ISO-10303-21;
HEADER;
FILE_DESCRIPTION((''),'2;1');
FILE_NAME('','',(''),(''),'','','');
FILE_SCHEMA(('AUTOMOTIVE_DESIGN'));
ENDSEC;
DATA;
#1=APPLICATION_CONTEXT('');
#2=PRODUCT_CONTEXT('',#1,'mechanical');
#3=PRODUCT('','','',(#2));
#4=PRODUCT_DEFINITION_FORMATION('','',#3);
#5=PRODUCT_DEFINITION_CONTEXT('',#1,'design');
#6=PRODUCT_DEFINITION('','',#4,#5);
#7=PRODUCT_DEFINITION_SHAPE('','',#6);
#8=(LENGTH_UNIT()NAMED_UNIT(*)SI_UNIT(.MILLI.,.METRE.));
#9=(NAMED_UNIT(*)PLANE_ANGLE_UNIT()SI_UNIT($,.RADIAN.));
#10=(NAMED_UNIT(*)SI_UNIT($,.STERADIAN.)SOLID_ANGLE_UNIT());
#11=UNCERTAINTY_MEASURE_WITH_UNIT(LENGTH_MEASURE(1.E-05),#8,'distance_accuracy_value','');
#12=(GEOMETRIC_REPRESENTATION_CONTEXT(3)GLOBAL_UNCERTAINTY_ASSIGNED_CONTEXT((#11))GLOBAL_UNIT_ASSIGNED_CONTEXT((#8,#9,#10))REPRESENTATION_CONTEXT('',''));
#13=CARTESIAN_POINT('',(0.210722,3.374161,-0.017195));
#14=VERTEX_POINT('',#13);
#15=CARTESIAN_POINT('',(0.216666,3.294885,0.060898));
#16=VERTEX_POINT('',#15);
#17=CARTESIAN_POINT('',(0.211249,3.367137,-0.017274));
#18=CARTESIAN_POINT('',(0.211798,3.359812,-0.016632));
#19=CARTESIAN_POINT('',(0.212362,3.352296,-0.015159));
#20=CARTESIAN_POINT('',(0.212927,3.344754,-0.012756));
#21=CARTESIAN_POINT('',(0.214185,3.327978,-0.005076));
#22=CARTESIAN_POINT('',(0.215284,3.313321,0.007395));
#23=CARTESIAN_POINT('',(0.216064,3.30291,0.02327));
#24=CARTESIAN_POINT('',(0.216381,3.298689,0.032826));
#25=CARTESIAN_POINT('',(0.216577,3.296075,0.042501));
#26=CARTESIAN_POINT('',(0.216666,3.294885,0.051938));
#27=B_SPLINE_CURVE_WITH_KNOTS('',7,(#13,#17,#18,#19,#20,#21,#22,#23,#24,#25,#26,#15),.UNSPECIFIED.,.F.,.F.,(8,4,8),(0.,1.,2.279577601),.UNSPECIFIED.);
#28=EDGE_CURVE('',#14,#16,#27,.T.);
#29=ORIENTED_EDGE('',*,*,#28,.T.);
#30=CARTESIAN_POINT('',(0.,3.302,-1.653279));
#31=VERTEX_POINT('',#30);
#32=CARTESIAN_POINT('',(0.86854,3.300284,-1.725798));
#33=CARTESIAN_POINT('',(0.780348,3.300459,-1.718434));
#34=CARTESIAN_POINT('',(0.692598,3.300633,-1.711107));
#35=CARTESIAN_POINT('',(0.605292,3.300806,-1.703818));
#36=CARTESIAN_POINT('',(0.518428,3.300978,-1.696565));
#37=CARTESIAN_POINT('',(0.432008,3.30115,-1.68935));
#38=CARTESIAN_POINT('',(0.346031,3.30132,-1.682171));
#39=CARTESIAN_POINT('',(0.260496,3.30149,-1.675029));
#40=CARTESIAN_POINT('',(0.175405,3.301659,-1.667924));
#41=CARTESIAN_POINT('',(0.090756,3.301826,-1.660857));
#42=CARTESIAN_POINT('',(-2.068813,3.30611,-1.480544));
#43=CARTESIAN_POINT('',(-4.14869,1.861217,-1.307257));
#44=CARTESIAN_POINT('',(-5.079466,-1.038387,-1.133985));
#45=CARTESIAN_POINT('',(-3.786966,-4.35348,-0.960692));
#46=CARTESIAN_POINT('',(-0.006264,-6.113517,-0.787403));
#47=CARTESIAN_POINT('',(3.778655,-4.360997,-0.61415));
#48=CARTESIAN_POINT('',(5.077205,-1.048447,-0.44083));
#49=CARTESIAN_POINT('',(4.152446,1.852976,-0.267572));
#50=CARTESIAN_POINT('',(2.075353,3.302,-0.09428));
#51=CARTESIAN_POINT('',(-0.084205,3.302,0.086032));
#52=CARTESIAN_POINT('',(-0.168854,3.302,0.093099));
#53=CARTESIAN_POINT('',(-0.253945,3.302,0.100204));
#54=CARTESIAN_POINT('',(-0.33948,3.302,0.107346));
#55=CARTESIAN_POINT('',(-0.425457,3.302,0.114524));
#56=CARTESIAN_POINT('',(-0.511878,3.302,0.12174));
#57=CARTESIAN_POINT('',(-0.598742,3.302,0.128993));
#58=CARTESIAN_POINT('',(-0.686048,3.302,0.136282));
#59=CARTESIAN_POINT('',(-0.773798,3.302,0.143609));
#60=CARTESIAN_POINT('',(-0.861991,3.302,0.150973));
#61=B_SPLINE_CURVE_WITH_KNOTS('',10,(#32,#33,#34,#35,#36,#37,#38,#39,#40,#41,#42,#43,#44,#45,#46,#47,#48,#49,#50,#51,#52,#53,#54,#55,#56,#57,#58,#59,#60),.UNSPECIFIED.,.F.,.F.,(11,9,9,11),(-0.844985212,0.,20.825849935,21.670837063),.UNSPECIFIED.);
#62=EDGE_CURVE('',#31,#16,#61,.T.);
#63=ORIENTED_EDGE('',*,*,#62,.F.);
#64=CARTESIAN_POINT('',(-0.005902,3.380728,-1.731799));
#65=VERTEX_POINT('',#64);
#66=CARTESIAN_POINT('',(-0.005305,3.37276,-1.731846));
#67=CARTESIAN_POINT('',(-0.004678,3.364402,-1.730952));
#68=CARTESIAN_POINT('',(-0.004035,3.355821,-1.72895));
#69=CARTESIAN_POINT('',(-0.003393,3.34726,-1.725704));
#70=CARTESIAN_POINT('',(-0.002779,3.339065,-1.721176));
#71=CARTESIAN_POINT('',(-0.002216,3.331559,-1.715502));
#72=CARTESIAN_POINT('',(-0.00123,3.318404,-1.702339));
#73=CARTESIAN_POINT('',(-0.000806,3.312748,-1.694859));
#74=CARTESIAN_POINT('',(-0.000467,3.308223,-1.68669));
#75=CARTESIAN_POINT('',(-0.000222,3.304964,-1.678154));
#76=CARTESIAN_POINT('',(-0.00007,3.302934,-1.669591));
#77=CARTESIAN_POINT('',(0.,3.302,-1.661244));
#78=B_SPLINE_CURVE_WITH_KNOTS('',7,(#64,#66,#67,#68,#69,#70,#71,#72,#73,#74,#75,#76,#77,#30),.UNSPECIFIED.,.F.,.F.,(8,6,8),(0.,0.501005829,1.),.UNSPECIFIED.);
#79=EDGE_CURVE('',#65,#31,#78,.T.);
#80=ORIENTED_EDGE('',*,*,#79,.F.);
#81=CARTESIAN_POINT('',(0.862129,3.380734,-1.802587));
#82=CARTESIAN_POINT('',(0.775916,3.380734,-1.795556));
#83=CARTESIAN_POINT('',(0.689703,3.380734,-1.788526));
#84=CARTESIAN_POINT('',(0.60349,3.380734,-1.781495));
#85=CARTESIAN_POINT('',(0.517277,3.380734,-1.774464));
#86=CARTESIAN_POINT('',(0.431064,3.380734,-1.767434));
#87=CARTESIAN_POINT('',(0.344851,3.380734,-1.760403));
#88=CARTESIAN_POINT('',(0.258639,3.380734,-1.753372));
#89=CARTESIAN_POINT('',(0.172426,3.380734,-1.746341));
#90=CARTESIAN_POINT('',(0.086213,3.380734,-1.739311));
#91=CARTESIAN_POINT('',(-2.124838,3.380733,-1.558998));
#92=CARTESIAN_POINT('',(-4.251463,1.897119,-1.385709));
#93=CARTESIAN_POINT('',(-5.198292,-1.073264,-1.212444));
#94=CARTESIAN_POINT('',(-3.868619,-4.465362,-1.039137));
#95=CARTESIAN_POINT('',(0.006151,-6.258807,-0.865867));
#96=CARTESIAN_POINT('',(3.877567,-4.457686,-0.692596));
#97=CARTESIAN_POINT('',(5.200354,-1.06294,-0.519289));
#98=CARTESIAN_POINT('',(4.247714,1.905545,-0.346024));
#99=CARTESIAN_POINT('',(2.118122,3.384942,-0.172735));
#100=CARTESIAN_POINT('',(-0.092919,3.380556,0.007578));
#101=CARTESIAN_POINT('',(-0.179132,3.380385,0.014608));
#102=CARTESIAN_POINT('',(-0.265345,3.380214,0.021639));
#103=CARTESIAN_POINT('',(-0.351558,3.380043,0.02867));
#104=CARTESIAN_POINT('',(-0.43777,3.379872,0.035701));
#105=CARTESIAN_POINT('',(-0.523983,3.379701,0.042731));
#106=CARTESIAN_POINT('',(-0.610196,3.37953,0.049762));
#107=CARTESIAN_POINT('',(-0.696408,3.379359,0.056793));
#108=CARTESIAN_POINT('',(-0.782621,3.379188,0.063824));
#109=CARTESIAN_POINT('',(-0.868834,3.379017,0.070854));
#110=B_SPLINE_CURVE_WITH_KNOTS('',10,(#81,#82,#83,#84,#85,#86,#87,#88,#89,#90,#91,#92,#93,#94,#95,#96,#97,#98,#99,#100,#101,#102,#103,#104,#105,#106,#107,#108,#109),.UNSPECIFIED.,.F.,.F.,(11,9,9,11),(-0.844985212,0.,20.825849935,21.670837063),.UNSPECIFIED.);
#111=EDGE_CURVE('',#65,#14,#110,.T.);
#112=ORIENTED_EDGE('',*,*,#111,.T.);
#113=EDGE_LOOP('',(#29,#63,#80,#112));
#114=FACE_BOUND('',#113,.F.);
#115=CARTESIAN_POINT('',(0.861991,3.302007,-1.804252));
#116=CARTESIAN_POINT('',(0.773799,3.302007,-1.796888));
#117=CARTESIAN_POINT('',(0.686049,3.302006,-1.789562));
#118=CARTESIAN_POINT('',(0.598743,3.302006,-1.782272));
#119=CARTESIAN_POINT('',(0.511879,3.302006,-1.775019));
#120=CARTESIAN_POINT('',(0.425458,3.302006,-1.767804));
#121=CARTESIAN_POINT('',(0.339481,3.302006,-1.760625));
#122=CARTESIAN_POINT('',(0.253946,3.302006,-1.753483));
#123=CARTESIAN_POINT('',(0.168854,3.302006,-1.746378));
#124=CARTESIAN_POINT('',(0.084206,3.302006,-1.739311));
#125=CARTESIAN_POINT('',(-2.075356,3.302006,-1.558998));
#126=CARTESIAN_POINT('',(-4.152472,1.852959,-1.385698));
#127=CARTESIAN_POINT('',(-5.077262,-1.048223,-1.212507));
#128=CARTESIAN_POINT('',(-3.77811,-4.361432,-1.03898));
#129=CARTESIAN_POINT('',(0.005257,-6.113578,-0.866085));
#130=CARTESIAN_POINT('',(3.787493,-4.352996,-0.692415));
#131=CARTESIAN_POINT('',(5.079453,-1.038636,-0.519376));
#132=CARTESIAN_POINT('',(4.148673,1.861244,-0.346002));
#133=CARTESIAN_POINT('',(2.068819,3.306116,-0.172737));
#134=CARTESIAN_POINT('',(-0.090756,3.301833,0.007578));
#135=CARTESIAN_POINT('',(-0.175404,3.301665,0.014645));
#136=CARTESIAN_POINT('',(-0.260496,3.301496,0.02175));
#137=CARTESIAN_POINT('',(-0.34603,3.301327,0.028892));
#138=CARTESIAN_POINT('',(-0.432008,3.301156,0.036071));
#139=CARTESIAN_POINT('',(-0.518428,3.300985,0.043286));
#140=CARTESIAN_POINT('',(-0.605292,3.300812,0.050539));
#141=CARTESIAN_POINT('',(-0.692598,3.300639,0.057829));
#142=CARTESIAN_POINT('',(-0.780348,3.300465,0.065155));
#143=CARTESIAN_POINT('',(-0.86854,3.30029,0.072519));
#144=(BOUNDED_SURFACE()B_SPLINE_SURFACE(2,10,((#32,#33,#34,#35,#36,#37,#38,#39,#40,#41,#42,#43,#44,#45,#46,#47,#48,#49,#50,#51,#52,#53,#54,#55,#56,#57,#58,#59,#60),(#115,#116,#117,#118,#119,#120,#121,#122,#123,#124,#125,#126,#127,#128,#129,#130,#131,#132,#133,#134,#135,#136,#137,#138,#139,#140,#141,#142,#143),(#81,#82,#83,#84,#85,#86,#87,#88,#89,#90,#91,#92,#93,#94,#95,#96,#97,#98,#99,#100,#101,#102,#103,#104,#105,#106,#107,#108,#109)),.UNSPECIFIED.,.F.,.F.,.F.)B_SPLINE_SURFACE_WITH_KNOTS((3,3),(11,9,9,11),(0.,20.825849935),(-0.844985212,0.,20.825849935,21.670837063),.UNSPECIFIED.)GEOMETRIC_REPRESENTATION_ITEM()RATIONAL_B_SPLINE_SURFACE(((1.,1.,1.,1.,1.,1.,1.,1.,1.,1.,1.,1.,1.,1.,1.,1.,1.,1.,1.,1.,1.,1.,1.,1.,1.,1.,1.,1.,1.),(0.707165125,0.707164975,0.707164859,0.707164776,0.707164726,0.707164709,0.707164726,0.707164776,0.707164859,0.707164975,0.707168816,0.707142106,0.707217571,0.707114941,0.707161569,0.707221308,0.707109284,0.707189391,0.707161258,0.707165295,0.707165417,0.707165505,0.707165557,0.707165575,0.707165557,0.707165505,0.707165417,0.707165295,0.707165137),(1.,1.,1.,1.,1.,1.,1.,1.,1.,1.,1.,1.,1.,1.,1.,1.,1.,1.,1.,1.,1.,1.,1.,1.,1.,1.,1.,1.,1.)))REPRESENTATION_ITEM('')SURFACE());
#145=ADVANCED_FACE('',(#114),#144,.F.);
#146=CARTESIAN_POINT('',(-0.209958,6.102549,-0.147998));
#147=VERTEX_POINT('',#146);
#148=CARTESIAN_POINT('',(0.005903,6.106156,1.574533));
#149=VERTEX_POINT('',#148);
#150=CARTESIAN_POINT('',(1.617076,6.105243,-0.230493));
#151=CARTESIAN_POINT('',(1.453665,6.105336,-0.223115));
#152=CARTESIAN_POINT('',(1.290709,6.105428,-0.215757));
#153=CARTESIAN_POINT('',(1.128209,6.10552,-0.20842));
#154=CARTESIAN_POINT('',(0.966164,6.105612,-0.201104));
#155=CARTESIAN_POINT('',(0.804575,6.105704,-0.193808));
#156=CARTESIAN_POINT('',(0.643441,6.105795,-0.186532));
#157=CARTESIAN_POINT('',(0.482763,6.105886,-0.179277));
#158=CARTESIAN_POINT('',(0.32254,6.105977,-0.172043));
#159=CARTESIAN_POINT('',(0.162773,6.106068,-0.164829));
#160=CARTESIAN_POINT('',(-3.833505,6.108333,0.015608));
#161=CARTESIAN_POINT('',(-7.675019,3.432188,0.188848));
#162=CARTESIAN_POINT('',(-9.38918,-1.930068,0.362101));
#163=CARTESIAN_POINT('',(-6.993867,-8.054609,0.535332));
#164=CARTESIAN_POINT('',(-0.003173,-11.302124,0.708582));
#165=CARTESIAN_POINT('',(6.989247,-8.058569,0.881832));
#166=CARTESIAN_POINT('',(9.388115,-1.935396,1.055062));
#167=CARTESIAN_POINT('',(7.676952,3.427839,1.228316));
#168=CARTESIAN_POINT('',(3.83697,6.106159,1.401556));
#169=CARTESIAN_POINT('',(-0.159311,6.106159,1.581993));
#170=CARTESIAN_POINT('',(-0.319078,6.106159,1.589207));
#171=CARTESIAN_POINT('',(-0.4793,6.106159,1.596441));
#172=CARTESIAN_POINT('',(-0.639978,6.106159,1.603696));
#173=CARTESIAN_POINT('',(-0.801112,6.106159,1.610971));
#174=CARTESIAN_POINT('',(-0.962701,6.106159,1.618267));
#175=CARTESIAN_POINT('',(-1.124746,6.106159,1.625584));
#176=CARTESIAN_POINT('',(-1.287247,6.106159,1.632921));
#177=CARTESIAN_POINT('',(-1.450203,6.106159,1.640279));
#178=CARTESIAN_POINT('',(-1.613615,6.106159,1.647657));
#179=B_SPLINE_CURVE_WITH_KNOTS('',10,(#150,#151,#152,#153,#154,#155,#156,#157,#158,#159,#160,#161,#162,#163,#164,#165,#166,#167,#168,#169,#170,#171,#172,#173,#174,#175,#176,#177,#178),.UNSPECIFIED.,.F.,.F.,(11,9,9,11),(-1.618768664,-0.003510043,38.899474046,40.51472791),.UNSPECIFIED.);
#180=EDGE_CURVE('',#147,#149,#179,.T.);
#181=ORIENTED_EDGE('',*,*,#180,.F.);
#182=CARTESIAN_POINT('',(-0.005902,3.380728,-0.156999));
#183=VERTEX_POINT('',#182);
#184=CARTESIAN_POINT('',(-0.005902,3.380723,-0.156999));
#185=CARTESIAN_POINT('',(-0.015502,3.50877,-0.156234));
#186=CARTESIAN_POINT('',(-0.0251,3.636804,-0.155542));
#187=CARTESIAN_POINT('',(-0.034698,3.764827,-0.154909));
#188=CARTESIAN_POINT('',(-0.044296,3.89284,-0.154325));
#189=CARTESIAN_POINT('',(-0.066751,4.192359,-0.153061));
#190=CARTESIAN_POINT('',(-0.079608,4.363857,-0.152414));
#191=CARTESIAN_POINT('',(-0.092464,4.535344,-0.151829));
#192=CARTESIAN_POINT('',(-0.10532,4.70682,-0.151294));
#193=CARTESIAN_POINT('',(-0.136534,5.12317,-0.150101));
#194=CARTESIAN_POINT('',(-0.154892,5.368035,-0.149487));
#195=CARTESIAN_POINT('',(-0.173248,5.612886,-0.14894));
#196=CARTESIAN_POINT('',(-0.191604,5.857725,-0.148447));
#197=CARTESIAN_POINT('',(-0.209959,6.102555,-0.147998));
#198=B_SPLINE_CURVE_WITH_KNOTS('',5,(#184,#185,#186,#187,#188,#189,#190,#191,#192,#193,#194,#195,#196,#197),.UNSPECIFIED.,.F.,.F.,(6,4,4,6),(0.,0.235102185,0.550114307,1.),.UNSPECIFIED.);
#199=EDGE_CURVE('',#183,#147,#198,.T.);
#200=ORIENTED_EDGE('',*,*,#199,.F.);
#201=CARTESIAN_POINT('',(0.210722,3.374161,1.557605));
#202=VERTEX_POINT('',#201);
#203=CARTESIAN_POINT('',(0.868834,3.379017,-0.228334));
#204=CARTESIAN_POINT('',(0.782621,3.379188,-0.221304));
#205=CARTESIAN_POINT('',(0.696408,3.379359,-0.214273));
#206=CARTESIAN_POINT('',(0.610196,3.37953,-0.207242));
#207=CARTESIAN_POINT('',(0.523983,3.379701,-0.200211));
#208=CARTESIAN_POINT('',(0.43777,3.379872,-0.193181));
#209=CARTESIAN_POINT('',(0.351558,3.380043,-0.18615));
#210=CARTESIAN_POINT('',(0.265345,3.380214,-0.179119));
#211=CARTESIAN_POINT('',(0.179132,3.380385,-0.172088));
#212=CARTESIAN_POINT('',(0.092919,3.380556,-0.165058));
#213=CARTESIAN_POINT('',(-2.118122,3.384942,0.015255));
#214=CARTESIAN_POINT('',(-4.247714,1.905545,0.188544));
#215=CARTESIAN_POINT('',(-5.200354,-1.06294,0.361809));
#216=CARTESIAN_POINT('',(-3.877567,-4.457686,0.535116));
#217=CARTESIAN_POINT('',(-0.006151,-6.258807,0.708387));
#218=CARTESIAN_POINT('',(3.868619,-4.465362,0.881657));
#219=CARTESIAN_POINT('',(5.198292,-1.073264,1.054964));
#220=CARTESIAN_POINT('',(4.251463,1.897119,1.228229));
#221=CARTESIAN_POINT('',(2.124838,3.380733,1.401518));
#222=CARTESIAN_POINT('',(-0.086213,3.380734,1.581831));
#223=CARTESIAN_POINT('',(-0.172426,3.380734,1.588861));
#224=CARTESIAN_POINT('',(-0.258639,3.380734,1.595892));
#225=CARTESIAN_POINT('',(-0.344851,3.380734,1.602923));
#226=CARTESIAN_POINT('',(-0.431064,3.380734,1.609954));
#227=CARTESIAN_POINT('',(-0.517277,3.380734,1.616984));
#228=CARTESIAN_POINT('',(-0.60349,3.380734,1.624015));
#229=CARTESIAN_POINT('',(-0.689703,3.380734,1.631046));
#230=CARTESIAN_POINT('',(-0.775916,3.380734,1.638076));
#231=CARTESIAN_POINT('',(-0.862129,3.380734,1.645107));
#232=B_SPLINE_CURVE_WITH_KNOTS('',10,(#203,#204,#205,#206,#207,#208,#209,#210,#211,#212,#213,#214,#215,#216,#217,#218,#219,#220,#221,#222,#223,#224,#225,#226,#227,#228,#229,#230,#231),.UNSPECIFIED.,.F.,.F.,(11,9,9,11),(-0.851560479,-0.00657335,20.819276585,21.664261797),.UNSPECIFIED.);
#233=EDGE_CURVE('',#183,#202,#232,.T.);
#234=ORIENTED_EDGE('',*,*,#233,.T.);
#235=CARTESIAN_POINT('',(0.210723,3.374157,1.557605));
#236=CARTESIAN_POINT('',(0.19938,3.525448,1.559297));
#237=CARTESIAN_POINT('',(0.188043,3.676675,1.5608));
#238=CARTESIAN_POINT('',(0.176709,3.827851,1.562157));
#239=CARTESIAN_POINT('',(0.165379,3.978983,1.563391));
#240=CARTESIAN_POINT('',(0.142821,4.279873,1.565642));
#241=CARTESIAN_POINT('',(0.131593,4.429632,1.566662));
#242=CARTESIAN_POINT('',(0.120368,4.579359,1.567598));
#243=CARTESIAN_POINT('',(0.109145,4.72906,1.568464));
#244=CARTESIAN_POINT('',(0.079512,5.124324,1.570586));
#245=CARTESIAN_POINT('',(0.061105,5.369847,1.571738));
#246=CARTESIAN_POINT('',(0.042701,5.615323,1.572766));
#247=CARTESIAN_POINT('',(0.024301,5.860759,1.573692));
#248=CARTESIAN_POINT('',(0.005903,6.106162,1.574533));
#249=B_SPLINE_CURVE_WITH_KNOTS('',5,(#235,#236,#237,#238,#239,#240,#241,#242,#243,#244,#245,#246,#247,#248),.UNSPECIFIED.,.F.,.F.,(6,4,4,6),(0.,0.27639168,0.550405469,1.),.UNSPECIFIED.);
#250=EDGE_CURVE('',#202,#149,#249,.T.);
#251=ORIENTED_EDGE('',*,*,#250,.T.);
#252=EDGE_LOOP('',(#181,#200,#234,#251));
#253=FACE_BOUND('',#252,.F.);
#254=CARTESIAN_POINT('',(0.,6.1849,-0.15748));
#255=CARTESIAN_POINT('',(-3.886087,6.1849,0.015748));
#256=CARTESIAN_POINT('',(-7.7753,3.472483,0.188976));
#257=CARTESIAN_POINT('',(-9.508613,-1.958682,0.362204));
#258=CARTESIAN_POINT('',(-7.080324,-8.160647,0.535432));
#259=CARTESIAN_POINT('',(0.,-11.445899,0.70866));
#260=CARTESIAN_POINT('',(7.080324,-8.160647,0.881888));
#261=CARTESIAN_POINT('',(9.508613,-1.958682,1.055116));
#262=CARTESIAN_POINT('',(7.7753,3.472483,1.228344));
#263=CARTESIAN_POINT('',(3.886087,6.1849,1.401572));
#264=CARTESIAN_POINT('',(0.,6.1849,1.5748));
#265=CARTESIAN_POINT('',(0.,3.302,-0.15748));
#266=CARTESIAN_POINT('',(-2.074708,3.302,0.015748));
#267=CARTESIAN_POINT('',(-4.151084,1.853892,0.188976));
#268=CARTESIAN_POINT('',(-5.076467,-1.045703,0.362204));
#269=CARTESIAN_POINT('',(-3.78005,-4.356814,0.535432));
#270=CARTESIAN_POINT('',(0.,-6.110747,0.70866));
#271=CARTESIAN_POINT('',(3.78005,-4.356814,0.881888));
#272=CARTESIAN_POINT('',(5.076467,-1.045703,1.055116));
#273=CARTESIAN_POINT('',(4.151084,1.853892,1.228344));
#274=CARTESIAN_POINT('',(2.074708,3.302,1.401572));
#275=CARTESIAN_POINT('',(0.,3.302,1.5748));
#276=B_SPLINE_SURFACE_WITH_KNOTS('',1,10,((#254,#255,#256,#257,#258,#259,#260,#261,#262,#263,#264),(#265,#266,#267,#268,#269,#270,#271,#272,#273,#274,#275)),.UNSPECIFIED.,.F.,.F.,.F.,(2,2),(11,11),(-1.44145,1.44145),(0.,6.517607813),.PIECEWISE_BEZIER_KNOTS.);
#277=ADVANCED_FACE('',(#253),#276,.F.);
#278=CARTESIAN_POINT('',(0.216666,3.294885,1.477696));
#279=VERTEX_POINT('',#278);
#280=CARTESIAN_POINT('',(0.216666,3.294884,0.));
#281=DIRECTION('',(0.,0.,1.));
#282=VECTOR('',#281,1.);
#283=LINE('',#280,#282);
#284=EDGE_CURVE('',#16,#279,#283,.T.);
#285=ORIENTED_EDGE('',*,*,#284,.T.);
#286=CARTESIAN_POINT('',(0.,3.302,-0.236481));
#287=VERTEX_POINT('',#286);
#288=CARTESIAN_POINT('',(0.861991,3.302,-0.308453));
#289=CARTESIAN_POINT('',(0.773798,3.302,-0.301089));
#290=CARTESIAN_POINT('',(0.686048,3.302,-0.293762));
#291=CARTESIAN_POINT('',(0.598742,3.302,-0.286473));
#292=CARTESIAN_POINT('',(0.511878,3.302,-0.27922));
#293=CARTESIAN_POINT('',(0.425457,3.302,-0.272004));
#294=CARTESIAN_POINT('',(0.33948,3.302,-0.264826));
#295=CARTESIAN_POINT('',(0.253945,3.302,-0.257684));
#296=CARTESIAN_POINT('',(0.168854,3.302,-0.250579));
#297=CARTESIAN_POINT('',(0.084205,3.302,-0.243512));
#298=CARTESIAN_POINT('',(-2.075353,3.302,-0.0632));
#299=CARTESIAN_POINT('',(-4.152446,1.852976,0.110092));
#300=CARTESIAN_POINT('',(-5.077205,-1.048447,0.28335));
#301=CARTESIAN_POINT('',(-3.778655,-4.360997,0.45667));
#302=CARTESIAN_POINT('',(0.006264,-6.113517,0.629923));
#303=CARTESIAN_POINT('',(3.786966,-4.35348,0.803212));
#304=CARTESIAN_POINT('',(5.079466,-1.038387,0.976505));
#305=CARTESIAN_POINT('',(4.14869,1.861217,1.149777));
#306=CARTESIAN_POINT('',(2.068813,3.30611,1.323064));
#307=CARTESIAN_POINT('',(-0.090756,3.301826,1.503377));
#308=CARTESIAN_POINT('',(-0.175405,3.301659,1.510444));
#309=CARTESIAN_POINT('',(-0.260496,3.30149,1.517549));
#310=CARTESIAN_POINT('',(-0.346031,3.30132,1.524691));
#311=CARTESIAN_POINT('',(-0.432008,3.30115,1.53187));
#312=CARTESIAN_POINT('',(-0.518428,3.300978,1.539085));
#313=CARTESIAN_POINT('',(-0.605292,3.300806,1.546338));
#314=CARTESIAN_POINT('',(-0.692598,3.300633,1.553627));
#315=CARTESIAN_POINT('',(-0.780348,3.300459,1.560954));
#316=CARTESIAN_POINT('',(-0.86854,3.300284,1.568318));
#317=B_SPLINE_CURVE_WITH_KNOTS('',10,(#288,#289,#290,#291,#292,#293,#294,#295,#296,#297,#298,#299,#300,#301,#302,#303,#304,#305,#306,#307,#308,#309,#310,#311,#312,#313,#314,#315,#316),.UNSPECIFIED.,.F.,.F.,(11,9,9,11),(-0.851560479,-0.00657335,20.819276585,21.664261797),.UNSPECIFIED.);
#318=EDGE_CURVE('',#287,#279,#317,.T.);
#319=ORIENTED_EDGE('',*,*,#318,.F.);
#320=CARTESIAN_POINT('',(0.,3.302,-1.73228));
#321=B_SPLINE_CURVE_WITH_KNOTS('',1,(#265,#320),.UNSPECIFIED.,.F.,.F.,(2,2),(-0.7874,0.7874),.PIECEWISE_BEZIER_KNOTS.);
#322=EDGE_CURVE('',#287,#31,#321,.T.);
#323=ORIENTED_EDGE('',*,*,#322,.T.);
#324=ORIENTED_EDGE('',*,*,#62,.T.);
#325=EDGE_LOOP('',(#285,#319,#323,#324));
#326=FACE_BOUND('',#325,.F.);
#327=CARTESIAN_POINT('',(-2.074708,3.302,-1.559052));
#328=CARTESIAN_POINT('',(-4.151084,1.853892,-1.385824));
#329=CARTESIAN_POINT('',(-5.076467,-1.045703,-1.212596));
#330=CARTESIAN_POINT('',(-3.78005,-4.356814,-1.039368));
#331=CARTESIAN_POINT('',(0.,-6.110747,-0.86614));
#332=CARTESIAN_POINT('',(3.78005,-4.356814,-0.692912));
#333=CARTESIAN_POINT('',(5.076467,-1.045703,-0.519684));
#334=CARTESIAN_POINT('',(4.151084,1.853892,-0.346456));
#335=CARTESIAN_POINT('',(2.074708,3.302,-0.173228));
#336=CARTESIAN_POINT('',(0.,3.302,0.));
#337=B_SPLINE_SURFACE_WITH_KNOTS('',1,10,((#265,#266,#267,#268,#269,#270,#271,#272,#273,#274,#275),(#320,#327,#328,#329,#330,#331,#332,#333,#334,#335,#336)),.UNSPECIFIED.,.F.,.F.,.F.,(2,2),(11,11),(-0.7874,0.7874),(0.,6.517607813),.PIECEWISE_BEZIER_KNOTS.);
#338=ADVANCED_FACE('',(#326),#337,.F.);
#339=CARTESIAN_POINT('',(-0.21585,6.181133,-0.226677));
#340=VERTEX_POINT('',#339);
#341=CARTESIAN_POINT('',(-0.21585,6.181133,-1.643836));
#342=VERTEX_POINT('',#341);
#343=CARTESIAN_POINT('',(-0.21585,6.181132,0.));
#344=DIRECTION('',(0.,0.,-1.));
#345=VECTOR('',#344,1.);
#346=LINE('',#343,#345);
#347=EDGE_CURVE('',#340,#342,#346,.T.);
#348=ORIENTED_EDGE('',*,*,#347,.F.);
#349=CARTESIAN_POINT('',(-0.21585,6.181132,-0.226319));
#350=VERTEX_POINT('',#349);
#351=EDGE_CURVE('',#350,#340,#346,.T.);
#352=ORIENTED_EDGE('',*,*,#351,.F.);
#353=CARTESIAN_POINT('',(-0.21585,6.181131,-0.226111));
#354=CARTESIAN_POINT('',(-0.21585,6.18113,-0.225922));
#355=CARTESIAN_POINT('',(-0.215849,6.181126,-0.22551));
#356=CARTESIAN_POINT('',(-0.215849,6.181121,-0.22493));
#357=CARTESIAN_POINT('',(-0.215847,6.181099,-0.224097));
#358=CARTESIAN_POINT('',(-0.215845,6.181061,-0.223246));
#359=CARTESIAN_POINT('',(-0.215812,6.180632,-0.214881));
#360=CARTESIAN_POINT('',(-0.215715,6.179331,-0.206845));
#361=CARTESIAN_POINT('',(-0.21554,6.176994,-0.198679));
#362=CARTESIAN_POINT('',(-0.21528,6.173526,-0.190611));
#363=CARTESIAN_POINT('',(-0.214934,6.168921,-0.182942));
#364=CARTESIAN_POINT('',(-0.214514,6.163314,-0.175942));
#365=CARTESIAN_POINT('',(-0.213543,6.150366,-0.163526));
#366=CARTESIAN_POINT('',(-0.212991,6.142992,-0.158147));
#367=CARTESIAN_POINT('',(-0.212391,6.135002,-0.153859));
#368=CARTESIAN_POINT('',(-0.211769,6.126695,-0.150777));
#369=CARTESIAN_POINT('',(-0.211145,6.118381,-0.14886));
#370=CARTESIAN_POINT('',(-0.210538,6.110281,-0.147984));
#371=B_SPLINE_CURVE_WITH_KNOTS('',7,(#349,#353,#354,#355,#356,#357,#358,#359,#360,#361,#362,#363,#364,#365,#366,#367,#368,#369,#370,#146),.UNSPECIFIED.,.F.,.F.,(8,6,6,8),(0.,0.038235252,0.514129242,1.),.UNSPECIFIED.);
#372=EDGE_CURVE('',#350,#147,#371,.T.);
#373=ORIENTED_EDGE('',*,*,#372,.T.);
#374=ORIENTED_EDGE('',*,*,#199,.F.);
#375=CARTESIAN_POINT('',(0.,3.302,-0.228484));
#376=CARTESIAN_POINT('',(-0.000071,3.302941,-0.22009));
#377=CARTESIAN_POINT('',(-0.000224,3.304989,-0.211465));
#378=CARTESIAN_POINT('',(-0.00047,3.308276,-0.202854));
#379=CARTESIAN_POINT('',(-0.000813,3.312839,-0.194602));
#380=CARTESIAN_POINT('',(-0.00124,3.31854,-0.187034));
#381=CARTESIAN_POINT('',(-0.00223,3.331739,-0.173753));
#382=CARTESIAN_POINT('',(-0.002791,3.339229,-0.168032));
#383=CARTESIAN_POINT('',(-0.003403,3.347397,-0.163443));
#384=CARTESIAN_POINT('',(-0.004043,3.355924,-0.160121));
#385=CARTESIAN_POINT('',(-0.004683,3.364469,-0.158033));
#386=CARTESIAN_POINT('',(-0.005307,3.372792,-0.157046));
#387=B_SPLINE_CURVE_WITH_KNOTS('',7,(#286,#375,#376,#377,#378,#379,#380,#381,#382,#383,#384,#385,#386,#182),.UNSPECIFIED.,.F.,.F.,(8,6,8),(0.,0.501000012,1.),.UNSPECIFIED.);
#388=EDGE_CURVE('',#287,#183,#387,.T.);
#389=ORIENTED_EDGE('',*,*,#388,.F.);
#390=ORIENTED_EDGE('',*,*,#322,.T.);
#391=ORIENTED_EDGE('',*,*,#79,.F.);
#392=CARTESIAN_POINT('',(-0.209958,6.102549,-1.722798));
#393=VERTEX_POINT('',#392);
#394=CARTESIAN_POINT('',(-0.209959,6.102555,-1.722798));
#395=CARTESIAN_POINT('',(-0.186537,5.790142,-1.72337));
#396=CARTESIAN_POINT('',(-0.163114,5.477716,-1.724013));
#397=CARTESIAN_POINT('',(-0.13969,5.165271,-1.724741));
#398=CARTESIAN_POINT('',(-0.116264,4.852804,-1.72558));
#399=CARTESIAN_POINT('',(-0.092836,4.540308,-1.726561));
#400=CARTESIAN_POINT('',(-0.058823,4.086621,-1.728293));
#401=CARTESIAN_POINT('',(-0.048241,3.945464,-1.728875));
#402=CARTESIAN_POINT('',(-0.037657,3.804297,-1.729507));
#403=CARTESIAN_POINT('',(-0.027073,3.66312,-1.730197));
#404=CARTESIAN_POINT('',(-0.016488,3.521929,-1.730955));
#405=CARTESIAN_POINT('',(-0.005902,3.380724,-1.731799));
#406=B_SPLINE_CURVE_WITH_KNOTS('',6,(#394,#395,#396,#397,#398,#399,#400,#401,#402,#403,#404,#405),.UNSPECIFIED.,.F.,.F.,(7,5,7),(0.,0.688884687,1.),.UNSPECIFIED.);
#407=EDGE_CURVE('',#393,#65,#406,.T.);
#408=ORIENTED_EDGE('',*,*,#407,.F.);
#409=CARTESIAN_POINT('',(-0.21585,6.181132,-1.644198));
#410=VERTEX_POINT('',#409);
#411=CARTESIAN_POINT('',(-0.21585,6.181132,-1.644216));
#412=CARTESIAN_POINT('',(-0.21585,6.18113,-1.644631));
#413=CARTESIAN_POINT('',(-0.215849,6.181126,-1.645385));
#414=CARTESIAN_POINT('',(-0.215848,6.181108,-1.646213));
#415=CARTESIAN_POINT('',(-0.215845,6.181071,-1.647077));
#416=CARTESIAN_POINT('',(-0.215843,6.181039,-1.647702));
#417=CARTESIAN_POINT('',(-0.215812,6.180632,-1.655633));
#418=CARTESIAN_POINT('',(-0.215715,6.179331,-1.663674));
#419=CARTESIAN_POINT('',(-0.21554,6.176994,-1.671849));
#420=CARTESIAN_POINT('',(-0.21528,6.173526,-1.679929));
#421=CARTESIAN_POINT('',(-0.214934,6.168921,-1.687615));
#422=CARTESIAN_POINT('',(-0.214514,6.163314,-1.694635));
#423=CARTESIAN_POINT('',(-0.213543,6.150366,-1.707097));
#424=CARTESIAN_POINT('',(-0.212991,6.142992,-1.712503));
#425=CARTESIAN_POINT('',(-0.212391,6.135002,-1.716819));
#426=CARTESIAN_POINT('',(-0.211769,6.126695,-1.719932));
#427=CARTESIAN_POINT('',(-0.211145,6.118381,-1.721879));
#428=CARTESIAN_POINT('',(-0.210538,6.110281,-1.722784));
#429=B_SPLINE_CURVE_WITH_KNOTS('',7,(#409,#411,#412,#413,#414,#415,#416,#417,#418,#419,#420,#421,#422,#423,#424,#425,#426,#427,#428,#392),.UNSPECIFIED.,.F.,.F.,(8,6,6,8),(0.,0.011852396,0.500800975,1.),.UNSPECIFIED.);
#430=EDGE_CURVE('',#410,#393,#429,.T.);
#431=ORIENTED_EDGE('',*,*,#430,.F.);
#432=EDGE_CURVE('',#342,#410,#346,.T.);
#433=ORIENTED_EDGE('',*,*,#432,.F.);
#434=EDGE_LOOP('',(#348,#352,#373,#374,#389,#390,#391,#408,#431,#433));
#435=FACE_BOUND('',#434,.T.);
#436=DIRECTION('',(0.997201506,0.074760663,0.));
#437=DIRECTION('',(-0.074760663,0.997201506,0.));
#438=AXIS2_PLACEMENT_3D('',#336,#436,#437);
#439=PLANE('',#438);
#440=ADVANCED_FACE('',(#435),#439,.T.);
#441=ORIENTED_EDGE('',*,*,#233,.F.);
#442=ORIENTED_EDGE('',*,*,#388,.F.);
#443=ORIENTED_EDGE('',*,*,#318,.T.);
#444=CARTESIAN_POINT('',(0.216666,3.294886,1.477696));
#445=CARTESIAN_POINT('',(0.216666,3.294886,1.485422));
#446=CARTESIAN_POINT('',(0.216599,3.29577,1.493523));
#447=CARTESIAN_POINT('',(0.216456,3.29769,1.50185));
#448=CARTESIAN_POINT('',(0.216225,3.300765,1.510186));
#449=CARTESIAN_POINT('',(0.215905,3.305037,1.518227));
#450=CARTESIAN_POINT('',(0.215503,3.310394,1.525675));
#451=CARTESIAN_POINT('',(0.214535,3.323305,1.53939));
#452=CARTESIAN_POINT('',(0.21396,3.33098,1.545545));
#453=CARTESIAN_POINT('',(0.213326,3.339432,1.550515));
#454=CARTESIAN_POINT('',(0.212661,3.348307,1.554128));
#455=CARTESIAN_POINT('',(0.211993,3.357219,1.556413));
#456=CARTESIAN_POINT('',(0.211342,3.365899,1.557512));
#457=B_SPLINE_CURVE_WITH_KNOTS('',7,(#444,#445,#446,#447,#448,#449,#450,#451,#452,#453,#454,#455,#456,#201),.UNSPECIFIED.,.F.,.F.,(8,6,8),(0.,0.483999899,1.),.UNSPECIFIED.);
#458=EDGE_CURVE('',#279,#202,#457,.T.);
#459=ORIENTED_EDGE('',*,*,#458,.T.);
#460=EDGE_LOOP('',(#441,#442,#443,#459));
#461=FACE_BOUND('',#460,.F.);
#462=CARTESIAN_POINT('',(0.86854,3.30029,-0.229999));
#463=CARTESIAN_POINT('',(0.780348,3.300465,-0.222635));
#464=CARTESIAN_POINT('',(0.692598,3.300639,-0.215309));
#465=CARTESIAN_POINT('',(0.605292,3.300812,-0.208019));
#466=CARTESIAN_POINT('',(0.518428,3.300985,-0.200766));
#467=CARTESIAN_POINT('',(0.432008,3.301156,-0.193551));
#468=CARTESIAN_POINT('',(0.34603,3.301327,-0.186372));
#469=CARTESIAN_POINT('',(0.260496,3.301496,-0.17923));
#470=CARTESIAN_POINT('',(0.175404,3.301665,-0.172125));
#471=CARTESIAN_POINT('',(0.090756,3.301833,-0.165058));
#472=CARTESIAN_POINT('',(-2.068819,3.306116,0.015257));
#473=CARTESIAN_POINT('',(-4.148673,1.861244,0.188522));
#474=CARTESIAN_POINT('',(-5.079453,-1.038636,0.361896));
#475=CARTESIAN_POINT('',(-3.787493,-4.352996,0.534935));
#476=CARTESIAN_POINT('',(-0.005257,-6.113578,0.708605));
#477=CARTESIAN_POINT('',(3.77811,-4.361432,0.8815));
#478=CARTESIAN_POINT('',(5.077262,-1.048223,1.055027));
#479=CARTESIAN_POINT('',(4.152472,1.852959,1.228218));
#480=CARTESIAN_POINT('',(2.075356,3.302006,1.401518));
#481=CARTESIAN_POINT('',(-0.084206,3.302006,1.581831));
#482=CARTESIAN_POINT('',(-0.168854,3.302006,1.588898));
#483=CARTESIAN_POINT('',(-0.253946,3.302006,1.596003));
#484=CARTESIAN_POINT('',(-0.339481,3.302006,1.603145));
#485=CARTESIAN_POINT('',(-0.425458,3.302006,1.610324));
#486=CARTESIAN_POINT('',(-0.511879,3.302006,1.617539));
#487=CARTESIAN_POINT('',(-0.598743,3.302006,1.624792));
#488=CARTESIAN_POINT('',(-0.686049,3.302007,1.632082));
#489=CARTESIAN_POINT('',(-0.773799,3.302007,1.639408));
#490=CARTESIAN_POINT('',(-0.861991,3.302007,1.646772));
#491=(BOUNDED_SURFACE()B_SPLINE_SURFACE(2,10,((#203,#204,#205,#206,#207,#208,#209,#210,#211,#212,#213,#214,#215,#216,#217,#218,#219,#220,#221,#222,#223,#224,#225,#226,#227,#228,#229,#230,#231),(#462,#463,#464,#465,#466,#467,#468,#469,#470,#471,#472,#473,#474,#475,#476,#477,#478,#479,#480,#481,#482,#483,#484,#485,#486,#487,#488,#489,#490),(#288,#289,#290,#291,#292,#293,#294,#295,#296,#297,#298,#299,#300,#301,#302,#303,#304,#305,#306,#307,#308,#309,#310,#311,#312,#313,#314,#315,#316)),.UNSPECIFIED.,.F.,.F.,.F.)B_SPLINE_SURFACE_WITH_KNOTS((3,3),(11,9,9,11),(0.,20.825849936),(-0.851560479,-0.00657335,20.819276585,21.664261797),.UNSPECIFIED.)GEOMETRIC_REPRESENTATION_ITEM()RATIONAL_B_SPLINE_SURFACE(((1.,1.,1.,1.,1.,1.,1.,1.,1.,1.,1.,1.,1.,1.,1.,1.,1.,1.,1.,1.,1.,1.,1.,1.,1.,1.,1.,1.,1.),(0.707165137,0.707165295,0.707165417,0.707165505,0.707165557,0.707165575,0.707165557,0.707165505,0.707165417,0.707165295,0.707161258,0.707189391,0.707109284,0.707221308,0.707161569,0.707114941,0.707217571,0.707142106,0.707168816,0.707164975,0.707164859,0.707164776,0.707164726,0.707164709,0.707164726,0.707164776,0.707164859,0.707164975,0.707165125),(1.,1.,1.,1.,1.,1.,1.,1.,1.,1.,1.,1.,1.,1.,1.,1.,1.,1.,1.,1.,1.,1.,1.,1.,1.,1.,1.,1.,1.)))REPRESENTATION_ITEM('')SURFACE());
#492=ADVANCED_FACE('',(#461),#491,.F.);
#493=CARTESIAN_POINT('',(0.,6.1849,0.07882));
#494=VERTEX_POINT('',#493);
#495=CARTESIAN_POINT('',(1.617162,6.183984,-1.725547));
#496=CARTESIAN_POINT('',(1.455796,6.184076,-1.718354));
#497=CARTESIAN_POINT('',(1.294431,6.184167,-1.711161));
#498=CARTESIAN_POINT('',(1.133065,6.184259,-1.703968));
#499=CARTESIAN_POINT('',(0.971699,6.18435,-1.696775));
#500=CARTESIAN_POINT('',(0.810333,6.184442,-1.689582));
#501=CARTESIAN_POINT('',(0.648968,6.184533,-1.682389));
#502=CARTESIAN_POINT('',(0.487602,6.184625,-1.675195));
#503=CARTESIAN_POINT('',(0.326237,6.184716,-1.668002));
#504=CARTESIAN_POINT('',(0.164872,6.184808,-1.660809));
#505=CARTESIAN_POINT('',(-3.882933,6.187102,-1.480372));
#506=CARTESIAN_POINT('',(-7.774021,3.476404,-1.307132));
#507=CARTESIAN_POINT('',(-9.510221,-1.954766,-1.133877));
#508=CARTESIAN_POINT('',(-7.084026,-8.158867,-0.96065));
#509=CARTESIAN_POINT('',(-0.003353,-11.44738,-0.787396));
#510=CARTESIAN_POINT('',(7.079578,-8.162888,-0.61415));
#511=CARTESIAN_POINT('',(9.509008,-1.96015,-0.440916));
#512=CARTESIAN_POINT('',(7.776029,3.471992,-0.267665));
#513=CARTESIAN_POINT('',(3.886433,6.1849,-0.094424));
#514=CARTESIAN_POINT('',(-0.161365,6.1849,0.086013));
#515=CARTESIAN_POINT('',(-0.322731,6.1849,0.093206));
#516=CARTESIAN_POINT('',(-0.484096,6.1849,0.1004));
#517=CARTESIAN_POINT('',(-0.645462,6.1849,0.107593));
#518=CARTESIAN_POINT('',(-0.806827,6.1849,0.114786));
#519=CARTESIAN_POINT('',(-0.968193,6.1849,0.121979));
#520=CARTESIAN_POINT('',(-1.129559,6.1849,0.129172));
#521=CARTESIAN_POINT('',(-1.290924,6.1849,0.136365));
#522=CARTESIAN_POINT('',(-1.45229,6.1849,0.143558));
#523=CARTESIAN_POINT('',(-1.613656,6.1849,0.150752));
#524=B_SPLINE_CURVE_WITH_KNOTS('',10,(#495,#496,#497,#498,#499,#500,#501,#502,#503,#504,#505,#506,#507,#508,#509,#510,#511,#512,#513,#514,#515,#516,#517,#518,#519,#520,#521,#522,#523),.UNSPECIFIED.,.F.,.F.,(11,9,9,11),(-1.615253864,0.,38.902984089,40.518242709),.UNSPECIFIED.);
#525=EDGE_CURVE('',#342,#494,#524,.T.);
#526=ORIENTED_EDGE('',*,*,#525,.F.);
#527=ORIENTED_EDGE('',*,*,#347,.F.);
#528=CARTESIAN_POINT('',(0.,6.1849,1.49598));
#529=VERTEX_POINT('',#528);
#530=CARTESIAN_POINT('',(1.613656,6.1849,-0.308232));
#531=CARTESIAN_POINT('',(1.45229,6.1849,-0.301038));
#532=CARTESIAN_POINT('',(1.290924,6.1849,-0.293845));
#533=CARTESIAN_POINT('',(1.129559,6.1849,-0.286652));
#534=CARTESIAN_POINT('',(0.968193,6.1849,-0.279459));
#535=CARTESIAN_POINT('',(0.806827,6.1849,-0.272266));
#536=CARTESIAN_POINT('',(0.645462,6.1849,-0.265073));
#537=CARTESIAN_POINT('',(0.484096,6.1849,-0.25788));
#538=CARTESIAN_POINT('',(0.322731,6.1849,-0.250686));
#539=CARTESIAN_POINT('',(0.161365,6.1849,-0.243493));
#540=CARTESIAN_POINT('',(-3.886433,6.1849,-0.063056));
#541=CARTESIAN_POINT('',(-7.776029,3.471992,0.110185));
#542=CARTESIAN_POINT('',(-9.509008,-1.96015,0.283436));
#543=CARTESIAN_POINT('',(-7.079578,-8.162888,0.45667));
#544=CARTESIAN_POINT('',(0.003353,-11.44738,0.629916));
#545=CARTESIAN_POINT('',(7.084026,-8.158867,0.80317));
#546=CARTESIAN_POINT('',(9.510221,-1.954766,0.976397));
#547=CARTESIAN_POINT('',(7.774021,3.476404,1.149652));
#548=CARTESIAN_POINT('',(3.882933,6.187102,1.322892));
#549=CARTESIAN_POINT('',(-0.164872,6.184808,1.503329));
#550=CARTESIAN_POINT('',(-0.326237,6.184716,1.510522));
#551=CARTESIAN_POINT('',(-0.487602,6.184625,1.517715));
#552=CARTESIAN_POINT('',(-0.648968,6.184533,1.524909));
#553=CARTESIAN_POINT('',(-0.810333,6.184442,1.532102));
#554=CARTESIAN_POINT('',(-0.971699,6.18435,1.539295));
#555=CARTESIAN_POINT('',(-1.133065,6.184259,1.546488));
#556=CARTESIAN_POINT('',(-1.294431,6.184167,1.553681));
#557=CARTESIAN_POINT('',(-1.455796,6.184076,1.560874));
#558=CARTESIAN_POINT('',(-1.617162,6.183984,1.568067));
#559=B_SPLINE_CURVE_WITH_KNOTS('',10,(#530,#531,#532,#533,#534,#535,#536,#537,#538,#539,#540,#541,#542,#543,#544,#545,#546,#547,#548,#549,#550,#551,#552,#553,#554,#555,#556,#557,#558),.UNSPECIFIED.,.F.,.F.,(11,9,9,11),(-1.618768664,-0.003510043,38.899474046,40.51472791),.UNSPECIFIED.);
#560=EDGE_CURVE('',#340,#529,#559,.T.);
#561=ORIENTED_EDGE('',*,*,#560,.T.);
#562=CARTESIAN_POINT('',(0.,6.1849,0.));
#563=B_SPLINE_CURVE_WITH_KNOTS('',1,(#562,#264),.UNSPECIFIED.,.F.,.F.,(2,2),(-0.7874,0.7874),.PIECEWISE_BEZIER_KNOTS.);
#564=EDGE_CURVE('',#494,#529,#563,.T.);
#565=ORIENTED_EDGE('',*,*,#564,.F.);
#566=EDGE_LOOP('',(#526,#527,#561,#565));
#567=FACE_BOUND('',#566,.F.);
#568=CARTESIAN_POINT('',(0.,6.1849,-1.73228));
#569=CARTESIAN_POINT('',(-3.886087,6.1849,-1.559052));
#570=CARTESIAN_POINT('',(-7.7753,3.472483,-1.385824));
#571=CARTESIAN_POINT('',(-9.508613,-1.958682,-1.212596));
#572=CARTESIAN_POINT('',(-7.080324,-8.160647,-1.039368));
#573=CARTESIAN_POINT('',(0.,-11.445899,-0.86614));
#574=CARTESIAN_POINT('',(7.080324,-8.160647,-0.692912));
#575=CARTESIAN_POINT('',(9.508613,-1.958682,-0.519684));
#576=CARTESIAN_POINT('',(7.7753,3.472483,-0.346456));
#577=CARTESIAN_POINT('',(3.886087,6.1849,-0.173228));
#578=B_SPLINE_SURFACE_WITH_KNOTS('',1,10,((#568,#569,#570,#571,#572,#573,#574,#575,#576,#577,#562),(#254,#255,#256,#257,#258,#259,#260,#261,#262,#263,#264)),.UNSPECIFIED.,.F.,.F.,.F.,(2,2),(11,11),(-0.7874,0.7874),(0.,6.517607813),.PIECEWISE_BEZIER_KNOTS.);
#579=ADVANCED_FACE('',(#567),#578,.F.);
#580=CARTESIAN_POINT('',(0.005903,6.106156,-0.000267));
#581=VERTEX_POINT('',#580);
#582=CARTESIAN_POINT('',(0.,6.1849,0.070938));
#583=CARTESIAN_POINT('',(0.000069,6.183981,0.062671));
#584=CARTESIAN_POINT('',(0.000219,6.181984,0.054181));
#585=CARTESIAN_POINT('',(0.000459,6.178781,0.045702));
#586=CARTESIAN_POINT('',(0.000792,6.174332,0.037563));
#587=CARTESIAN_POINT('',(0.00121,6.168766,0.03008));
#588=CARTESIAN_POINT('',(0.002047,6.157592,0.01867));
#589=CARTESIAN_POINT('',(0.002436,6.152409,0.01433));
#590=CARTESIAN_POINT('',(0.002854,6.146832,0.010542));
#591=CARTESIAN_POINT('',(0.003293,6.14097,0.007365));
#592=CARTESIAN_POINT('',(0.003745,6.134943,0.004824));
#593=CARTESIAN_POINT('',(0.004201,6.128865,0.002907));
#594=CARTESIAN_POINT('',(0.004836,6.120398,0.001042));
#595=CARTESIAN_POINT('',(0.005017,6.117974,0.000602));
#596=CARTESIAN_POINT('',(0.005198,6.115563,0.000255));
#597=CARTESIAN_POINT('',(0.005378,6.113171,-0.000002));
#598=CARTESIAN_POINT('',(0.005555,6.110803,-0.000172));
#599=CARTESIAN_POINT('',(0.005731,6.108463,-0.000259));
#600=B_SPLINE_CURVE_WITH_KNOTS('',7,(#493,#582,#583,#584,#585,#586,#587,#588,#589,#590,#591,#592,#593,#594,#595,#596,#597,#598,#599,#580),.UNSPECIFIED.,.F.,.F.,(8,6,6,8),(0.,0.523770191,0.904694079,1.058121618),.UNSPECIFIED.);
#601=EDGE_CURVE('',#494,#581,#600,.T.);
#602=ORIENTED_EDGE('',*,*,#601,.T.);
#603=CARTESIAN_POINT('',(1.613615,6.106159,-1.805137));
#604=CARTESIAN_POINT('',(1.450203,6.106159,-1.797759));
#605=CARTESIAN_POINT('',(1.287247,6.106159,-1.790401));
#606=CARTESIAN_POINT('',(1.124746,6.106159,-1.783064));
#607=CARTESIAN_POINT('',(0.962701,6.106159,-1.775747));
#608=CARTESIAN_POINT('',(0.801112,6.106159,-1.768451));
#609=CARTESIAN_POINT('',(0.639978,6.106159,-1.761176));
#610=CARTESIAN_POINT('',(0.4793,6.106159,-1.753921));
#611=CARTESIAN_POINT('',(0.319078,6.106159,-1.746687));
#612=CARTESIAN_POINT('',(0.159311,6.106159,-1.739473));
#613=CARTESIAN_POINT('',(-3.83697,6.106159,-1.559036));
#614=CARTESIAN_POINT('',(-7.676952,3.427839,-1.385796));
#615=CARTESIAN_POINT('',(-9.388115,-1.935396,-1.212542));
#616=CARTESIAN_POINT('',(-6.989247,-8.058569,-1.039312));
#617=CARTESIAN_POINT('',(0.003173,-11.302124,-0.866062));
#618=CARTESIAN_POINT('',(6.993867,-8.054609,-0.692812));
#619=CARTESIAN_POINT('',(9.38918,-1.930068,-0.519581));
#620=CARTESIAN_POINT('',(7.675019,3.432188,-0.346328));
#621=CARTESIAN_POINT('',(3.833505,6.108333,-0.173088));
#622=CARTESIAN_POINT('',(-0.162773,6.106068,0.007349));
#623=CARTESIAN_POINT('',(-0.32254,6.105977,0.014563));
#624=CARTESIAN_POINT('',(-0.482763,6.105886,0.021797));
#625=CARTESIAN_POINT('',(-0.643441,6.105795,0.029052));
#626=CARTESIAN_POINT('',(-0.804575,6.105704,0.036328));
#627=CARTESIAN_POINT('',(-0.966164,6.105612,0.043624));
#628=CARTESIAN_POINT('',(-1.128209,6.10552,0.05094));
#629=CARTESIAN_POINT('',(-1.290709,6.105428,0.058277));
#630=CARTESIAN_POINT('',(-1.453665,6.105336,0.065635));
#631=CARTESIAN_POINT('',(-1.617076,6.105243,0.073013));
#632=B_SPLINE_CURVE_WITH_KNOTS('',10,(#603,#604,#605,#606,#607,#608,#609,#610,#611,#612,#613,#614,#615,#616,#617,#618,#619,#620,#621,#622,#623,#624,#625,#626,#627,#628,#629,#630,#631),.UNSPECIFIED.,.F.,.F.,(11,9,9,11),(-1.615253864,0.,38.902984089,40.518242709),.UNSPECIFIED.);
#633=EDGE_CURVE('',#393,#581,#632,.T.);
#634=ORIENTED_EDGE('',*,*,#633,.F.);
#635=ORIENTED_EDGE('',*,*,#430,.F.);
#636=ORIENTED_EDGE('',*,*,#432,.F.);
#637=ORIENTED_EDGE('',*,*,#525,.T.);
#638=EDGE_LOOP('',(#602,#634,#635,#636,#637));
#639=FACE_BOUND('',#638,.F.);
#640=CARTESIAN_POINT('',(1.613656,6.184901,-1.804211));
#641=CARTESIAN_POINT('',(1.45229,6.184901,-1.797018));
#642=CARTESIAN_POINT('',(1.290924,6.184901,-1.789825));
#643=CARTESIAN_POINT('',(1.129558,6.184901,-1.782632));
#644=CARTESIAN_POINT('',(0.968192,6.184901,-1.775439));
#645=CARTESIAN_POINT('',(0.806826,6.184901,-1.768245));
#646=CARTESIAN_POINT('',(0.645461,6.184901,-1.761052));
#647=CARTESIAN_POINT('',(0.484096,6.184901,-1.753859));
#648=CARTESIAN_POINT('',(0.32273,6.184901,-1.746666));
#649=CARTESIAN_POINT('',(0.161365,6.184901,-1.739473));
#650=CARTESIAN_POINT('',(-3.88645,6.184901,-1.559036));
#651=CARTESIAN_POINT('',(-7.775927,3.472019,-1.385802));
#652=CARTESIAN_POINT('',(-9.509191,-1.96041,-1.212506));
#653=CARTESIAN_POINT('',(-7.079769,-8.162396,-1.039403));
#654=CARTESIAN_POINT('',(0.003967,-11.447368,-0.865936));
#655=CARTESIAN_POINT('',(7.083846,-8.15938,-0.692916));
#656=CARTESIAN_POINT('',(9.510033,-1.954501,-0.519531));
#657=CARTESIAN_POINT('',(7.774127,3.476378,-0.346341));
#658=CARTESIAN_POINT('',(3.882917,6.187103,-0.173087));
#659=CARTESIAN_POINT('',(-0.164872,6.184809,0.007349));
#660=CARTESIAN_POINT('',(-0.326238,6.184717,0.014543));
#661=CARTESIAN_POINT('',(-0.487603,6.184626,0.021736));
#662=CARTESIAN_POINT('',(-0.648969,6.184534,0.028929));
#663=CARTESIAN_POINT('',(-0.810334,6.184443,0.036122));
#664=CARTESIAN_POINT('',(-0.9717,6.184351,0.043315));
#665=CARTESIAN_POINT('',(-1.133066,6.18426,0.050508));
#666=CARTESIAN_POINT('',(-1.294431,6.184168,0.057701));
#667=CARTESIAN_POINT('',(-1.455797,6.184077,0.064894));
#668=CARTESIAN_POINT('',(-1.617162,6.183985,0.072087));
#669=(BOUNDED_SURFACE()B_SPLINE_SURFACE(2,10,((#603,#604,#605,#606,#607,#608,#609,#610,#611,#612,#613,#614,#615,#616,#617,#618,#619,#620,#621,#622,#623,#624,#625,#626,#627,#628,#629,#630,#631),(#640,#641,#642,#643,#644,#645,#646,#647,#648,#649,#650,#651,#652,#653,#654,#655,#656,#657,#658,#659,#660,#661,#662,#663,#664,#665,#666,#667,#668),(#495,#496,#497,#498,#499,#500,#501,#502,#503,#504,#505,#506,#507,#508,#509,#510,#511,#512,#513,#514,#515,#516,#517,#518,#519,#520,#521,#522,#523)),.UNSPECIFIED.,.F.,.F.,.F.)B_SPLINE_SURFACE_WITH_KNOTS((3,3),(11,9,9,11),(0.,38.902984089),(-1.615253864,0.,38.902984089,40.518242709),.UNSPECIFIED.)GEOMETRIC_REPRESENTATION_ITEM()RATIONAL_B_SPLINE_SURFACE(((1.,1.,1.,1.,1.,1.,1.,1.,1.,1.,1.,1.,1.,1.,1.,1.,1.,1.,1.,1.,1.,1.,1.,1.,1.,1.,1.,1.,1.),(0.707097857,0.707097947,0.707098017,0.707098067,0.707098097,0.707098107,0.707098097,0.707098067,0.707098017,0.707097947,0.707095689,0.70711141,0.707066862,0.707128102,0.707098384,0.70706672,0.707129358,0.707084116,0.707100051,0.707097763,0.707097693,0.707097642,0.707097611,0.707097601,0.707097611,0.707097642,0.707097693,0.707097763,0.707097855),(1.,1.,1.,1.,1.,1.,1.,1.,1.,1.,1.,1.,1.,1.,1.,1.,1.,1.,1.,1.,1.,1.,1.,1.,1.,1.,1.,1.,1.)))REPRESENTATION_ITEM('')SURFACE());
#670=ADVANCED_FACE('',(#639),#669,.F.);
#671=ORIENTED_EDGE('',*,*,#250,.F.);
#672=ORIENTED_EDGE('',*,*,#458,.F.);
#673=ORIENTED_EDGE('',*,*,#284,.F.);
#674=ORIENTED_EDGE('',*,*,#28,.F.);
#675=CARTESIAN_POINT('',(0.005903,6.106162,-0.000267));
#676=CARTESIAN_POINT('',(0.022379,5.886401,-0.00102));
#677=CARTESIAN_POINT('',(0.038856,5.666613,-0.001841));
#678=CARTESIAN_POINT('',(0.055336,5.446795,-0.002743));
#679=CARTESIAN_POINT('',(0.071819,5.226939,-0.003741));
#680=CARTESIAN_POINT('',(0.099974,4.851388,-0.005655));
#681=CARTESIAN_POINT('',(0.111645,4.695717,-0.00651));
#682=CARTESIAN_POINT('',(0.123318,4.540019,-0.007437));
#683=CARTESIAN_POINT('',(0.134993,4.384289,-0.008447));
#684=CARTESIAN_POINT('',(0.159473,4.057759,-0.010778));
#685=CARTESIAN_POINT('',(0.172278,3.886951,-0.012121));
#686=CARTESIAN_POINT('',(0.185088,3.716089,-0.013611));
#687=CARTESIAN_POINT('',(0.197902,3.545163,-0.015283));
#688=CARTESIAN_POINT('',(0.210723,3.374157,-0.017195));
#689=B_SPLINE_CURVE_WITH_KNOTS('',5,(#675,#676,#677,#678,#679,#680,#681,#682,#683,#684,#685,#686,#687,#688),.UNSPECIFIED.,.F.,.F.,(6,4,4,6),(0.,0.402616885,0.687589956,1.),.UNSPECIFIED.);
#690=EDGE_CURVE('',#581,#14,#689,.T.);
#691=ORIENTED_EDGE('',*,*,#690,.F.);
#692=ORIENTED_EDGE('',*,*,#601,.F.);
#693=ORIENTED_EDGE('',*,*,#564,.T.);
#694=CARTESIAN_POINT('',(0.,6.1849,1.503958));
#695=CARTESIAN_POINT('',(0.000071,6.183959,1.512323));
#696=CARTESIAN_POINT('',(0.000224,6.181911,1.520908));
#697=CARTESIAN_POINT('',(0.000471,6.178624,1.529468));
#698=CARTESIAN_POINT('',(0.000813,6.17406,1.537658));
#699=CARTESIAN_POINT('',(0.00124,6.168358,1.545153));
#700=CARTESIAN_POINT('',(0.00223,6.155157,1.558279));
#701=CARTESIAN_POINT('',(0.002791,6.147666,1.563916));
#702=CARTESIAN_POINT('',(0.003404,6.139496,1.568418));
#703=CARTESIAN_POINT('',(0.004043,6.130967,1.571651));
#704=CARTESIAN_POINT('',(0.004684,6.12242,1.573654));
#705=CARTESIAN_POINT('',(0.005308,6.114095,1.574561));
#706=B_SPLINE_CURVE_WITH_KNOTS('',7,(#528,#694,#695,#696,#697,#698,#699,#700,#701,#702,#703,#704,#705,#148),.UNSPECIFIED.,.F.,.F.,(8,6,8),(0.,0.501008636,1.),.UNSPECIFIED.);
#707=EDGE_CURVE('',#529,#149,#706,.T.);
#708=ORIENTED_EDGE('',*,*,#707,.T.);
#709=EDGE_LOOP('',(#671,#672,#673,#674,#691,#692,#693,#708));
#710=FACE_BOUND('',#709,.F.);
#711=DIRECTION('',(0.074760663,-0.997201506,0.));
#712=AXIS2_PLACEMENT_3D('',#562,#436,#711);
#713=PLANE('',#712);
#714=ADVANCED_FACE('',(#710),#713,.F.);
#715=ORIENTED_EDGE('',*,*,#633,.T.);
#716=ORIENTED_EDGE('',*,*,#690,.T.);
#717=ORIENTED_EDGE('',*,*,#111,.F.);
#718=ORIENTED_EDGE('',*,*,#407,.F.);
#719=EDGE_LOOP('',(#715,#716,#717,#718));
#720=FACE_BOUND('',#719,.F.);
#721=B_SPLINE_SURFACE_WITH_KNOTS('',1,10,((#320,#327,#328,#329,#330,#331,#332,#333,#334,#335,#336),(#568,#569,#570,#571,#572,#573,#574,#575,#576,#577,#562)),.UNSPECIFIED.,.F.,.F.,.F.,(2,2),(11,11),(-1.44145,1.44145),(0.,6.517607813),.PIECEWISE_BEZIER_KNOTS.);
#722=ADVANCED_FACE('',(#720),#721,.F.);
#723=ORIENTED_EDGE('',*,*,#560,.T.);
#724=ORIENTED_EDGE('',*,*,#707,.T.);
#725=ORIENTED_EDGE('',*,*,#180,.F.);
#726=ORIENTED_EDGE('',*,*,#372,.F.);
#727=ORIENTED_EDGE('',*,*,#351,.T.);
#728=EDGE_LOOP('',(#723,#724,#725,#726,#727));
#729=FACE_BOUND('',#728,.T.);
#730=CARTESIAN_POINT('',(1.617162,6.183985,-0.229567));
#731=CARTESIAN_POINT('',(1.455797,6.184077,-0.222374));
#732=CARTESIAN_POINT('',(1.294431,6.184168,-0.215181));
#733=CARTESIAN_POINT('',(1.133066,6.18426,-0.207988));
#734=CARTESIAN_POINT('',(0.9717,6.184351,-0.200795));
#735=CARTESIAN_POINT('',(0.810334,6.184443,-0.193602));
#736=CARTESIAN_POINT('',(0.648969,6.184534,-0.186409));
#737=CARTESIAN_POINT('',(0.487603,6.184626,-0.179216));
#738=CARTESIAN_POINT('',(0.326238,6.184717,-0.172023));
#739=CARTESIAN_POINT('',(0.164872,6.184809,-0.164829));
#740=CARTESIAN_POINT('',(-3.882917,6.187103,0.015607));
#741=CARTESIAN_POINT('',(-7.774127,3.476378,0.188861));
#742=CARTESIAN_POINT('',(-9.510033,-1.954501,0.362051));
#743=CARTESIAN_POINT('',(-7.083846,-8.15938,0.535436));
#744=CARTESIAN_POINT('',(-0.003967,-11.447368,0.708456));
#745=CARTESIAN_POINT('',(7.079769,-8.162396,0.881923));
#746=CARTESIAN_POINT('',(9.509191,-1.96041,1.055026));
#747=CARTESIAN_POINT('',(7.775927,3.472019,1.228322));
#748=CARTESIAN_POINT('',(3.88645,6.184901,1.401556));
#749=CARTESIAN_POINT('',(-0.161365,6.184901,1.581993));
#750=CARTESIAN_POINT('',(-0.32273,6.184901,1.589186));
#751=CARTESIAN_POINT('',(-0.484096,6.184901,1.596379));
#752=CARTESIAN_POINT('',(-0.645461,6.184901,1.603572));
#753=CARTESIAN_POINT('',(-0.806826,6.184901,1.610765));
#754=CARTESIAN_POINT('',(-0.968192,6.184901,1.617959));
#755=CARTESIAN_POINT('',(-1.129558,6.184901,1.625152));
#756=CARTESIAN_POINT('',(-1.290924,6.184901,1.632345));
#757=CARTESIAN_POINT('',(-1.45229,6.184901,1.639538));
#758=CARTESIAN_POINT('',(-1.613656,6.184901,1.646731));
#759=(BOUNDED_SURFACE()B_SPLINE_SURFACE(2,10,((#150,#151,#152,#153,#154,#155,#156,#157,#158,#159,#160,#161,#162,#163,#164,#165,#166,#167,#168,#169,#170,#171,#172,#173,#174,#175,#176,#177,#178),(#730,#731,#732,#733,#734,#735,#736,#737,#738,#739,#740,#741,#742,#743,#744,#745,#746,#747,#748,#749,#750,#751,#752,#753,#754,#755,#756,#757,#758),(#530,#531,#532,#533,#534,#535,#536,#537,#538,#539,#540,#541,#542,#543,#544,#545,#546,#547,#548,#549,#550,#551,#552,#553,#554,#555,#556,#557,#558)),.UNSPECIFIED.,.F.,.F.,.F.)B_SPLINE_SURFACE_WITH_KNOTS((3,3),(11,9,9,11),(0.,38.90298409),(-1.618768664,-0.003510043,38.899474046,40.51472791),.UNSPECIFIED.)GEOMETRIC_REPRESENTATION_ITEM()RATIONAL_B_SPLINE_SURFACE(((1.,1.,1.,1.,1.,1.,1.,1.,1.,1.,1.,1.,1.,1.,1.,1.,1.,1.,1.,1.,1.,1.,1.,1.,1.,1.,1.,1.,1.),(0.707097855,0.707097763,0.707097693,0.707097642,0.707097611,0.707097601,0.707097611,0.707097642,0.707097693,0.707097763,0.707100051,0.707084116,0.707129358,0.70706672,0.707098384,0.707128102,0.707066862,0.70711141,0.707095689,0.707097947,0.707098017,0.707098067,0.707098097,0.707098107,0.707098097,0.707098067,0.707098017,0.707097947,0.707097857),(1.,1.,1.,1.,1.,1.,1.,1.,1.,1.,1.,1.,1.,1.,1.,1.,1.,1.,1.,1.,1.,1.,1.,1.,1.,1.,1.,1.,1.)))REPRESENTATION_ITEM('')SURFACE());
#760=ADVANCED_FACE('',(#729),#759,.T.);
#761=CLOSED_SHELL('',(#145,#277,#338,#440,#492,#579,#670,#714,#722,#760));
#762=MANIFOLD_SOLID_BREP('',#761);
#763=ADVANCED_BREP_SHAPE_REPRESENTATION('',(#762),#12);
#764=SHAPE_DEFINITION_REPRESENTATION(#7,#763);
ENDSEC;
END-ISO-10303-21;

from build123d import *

# Parameters (mm, degrees)
SWEEP1_PITCH            = 1.73228
SWEEP1_HEIGHT           = 1.73228
SWEEP1_RADIUS           = 6.1849
SWEEP1_START_ANGLE      = 90
SKETCH4_W               = 1.5748
SKETCH4_H               = 2.8829
FILLET1_R               = 0.07874
CUT_EXTRUDE1_DEPTH      = 2.5748001
CUT_EXTRUDE1_DEPTH_BACK = 2.7322801


with BuildPart() as part:
    # Sweep1: sweep along a helix
    with BuildLine() as sweep1_path:
        add(Helix(SWEEP1_PITCH, SWEEP1_HEIGHT, SWEEP1_RADIUS, center=(0, 0, -1.73228), direction=(0, 0, 1), mode=Mode.PRIVATE).rotate(Axis((0, 0, -1.73228), (0, 0, 1)), SWEEP1_START_ANGLE))
    # Sketch4 → Sweep1 (sweep)
    with BuildSketch(Plane(origin=(0, 0, 0), x_dir=(0, 0, -1), z_dir=(1, 0, 0))):
        with Locations((0.94488, 4.74345)):
            Rectangle(SKETCH4_W, SKETCH4_H)
    sweep(path=sweep1_path.line, is_frenet=True)

    # Fillet1
    fillet1_edges = [part.edges().sort_by_distance(p)[0] for p in [
        (0, -6.184893342, 0.70866),
        (0, -3.301996445, 0.70866),
        (0, -3.301996445, -0.86614),
        (0, -6.184893341, -0.86614),
    ]]
    fillet(fillet1_edges, radius=FILLET1_R)

    # Sketch5 → Cut-Extrude1 (cut, two sides)
    with BuildSketch(Plane.XY) as cut_extrude1_sk:
        with BuildLine():
            Line((0, 6.1849), (0.216665859, 3.294883899))
            Line((0.216665859, 3.294883899), (0.216665859, 0))
            Line((0.216665859, 0), (0, 0))
            Line((0, 0), (0, 3.302))
            Line((0, 3.302), (-0.215849897, 6.181132326))
            ThreePointArc((-0.215849897, 6.181132326), (-0.107941389, 6.18395801), (0, 6.1849))
        make_face()
    extrude(amount=CUT_EXTRUDE1_DEPTH, mode=Mode.SUBTRACT)
    extrude(cut_extrude1_sk.sketch, amount=-CUT_EXTRUDE1_DEPTH_BACK, mode=Mode.SUBTRACT)


solid = part.part
